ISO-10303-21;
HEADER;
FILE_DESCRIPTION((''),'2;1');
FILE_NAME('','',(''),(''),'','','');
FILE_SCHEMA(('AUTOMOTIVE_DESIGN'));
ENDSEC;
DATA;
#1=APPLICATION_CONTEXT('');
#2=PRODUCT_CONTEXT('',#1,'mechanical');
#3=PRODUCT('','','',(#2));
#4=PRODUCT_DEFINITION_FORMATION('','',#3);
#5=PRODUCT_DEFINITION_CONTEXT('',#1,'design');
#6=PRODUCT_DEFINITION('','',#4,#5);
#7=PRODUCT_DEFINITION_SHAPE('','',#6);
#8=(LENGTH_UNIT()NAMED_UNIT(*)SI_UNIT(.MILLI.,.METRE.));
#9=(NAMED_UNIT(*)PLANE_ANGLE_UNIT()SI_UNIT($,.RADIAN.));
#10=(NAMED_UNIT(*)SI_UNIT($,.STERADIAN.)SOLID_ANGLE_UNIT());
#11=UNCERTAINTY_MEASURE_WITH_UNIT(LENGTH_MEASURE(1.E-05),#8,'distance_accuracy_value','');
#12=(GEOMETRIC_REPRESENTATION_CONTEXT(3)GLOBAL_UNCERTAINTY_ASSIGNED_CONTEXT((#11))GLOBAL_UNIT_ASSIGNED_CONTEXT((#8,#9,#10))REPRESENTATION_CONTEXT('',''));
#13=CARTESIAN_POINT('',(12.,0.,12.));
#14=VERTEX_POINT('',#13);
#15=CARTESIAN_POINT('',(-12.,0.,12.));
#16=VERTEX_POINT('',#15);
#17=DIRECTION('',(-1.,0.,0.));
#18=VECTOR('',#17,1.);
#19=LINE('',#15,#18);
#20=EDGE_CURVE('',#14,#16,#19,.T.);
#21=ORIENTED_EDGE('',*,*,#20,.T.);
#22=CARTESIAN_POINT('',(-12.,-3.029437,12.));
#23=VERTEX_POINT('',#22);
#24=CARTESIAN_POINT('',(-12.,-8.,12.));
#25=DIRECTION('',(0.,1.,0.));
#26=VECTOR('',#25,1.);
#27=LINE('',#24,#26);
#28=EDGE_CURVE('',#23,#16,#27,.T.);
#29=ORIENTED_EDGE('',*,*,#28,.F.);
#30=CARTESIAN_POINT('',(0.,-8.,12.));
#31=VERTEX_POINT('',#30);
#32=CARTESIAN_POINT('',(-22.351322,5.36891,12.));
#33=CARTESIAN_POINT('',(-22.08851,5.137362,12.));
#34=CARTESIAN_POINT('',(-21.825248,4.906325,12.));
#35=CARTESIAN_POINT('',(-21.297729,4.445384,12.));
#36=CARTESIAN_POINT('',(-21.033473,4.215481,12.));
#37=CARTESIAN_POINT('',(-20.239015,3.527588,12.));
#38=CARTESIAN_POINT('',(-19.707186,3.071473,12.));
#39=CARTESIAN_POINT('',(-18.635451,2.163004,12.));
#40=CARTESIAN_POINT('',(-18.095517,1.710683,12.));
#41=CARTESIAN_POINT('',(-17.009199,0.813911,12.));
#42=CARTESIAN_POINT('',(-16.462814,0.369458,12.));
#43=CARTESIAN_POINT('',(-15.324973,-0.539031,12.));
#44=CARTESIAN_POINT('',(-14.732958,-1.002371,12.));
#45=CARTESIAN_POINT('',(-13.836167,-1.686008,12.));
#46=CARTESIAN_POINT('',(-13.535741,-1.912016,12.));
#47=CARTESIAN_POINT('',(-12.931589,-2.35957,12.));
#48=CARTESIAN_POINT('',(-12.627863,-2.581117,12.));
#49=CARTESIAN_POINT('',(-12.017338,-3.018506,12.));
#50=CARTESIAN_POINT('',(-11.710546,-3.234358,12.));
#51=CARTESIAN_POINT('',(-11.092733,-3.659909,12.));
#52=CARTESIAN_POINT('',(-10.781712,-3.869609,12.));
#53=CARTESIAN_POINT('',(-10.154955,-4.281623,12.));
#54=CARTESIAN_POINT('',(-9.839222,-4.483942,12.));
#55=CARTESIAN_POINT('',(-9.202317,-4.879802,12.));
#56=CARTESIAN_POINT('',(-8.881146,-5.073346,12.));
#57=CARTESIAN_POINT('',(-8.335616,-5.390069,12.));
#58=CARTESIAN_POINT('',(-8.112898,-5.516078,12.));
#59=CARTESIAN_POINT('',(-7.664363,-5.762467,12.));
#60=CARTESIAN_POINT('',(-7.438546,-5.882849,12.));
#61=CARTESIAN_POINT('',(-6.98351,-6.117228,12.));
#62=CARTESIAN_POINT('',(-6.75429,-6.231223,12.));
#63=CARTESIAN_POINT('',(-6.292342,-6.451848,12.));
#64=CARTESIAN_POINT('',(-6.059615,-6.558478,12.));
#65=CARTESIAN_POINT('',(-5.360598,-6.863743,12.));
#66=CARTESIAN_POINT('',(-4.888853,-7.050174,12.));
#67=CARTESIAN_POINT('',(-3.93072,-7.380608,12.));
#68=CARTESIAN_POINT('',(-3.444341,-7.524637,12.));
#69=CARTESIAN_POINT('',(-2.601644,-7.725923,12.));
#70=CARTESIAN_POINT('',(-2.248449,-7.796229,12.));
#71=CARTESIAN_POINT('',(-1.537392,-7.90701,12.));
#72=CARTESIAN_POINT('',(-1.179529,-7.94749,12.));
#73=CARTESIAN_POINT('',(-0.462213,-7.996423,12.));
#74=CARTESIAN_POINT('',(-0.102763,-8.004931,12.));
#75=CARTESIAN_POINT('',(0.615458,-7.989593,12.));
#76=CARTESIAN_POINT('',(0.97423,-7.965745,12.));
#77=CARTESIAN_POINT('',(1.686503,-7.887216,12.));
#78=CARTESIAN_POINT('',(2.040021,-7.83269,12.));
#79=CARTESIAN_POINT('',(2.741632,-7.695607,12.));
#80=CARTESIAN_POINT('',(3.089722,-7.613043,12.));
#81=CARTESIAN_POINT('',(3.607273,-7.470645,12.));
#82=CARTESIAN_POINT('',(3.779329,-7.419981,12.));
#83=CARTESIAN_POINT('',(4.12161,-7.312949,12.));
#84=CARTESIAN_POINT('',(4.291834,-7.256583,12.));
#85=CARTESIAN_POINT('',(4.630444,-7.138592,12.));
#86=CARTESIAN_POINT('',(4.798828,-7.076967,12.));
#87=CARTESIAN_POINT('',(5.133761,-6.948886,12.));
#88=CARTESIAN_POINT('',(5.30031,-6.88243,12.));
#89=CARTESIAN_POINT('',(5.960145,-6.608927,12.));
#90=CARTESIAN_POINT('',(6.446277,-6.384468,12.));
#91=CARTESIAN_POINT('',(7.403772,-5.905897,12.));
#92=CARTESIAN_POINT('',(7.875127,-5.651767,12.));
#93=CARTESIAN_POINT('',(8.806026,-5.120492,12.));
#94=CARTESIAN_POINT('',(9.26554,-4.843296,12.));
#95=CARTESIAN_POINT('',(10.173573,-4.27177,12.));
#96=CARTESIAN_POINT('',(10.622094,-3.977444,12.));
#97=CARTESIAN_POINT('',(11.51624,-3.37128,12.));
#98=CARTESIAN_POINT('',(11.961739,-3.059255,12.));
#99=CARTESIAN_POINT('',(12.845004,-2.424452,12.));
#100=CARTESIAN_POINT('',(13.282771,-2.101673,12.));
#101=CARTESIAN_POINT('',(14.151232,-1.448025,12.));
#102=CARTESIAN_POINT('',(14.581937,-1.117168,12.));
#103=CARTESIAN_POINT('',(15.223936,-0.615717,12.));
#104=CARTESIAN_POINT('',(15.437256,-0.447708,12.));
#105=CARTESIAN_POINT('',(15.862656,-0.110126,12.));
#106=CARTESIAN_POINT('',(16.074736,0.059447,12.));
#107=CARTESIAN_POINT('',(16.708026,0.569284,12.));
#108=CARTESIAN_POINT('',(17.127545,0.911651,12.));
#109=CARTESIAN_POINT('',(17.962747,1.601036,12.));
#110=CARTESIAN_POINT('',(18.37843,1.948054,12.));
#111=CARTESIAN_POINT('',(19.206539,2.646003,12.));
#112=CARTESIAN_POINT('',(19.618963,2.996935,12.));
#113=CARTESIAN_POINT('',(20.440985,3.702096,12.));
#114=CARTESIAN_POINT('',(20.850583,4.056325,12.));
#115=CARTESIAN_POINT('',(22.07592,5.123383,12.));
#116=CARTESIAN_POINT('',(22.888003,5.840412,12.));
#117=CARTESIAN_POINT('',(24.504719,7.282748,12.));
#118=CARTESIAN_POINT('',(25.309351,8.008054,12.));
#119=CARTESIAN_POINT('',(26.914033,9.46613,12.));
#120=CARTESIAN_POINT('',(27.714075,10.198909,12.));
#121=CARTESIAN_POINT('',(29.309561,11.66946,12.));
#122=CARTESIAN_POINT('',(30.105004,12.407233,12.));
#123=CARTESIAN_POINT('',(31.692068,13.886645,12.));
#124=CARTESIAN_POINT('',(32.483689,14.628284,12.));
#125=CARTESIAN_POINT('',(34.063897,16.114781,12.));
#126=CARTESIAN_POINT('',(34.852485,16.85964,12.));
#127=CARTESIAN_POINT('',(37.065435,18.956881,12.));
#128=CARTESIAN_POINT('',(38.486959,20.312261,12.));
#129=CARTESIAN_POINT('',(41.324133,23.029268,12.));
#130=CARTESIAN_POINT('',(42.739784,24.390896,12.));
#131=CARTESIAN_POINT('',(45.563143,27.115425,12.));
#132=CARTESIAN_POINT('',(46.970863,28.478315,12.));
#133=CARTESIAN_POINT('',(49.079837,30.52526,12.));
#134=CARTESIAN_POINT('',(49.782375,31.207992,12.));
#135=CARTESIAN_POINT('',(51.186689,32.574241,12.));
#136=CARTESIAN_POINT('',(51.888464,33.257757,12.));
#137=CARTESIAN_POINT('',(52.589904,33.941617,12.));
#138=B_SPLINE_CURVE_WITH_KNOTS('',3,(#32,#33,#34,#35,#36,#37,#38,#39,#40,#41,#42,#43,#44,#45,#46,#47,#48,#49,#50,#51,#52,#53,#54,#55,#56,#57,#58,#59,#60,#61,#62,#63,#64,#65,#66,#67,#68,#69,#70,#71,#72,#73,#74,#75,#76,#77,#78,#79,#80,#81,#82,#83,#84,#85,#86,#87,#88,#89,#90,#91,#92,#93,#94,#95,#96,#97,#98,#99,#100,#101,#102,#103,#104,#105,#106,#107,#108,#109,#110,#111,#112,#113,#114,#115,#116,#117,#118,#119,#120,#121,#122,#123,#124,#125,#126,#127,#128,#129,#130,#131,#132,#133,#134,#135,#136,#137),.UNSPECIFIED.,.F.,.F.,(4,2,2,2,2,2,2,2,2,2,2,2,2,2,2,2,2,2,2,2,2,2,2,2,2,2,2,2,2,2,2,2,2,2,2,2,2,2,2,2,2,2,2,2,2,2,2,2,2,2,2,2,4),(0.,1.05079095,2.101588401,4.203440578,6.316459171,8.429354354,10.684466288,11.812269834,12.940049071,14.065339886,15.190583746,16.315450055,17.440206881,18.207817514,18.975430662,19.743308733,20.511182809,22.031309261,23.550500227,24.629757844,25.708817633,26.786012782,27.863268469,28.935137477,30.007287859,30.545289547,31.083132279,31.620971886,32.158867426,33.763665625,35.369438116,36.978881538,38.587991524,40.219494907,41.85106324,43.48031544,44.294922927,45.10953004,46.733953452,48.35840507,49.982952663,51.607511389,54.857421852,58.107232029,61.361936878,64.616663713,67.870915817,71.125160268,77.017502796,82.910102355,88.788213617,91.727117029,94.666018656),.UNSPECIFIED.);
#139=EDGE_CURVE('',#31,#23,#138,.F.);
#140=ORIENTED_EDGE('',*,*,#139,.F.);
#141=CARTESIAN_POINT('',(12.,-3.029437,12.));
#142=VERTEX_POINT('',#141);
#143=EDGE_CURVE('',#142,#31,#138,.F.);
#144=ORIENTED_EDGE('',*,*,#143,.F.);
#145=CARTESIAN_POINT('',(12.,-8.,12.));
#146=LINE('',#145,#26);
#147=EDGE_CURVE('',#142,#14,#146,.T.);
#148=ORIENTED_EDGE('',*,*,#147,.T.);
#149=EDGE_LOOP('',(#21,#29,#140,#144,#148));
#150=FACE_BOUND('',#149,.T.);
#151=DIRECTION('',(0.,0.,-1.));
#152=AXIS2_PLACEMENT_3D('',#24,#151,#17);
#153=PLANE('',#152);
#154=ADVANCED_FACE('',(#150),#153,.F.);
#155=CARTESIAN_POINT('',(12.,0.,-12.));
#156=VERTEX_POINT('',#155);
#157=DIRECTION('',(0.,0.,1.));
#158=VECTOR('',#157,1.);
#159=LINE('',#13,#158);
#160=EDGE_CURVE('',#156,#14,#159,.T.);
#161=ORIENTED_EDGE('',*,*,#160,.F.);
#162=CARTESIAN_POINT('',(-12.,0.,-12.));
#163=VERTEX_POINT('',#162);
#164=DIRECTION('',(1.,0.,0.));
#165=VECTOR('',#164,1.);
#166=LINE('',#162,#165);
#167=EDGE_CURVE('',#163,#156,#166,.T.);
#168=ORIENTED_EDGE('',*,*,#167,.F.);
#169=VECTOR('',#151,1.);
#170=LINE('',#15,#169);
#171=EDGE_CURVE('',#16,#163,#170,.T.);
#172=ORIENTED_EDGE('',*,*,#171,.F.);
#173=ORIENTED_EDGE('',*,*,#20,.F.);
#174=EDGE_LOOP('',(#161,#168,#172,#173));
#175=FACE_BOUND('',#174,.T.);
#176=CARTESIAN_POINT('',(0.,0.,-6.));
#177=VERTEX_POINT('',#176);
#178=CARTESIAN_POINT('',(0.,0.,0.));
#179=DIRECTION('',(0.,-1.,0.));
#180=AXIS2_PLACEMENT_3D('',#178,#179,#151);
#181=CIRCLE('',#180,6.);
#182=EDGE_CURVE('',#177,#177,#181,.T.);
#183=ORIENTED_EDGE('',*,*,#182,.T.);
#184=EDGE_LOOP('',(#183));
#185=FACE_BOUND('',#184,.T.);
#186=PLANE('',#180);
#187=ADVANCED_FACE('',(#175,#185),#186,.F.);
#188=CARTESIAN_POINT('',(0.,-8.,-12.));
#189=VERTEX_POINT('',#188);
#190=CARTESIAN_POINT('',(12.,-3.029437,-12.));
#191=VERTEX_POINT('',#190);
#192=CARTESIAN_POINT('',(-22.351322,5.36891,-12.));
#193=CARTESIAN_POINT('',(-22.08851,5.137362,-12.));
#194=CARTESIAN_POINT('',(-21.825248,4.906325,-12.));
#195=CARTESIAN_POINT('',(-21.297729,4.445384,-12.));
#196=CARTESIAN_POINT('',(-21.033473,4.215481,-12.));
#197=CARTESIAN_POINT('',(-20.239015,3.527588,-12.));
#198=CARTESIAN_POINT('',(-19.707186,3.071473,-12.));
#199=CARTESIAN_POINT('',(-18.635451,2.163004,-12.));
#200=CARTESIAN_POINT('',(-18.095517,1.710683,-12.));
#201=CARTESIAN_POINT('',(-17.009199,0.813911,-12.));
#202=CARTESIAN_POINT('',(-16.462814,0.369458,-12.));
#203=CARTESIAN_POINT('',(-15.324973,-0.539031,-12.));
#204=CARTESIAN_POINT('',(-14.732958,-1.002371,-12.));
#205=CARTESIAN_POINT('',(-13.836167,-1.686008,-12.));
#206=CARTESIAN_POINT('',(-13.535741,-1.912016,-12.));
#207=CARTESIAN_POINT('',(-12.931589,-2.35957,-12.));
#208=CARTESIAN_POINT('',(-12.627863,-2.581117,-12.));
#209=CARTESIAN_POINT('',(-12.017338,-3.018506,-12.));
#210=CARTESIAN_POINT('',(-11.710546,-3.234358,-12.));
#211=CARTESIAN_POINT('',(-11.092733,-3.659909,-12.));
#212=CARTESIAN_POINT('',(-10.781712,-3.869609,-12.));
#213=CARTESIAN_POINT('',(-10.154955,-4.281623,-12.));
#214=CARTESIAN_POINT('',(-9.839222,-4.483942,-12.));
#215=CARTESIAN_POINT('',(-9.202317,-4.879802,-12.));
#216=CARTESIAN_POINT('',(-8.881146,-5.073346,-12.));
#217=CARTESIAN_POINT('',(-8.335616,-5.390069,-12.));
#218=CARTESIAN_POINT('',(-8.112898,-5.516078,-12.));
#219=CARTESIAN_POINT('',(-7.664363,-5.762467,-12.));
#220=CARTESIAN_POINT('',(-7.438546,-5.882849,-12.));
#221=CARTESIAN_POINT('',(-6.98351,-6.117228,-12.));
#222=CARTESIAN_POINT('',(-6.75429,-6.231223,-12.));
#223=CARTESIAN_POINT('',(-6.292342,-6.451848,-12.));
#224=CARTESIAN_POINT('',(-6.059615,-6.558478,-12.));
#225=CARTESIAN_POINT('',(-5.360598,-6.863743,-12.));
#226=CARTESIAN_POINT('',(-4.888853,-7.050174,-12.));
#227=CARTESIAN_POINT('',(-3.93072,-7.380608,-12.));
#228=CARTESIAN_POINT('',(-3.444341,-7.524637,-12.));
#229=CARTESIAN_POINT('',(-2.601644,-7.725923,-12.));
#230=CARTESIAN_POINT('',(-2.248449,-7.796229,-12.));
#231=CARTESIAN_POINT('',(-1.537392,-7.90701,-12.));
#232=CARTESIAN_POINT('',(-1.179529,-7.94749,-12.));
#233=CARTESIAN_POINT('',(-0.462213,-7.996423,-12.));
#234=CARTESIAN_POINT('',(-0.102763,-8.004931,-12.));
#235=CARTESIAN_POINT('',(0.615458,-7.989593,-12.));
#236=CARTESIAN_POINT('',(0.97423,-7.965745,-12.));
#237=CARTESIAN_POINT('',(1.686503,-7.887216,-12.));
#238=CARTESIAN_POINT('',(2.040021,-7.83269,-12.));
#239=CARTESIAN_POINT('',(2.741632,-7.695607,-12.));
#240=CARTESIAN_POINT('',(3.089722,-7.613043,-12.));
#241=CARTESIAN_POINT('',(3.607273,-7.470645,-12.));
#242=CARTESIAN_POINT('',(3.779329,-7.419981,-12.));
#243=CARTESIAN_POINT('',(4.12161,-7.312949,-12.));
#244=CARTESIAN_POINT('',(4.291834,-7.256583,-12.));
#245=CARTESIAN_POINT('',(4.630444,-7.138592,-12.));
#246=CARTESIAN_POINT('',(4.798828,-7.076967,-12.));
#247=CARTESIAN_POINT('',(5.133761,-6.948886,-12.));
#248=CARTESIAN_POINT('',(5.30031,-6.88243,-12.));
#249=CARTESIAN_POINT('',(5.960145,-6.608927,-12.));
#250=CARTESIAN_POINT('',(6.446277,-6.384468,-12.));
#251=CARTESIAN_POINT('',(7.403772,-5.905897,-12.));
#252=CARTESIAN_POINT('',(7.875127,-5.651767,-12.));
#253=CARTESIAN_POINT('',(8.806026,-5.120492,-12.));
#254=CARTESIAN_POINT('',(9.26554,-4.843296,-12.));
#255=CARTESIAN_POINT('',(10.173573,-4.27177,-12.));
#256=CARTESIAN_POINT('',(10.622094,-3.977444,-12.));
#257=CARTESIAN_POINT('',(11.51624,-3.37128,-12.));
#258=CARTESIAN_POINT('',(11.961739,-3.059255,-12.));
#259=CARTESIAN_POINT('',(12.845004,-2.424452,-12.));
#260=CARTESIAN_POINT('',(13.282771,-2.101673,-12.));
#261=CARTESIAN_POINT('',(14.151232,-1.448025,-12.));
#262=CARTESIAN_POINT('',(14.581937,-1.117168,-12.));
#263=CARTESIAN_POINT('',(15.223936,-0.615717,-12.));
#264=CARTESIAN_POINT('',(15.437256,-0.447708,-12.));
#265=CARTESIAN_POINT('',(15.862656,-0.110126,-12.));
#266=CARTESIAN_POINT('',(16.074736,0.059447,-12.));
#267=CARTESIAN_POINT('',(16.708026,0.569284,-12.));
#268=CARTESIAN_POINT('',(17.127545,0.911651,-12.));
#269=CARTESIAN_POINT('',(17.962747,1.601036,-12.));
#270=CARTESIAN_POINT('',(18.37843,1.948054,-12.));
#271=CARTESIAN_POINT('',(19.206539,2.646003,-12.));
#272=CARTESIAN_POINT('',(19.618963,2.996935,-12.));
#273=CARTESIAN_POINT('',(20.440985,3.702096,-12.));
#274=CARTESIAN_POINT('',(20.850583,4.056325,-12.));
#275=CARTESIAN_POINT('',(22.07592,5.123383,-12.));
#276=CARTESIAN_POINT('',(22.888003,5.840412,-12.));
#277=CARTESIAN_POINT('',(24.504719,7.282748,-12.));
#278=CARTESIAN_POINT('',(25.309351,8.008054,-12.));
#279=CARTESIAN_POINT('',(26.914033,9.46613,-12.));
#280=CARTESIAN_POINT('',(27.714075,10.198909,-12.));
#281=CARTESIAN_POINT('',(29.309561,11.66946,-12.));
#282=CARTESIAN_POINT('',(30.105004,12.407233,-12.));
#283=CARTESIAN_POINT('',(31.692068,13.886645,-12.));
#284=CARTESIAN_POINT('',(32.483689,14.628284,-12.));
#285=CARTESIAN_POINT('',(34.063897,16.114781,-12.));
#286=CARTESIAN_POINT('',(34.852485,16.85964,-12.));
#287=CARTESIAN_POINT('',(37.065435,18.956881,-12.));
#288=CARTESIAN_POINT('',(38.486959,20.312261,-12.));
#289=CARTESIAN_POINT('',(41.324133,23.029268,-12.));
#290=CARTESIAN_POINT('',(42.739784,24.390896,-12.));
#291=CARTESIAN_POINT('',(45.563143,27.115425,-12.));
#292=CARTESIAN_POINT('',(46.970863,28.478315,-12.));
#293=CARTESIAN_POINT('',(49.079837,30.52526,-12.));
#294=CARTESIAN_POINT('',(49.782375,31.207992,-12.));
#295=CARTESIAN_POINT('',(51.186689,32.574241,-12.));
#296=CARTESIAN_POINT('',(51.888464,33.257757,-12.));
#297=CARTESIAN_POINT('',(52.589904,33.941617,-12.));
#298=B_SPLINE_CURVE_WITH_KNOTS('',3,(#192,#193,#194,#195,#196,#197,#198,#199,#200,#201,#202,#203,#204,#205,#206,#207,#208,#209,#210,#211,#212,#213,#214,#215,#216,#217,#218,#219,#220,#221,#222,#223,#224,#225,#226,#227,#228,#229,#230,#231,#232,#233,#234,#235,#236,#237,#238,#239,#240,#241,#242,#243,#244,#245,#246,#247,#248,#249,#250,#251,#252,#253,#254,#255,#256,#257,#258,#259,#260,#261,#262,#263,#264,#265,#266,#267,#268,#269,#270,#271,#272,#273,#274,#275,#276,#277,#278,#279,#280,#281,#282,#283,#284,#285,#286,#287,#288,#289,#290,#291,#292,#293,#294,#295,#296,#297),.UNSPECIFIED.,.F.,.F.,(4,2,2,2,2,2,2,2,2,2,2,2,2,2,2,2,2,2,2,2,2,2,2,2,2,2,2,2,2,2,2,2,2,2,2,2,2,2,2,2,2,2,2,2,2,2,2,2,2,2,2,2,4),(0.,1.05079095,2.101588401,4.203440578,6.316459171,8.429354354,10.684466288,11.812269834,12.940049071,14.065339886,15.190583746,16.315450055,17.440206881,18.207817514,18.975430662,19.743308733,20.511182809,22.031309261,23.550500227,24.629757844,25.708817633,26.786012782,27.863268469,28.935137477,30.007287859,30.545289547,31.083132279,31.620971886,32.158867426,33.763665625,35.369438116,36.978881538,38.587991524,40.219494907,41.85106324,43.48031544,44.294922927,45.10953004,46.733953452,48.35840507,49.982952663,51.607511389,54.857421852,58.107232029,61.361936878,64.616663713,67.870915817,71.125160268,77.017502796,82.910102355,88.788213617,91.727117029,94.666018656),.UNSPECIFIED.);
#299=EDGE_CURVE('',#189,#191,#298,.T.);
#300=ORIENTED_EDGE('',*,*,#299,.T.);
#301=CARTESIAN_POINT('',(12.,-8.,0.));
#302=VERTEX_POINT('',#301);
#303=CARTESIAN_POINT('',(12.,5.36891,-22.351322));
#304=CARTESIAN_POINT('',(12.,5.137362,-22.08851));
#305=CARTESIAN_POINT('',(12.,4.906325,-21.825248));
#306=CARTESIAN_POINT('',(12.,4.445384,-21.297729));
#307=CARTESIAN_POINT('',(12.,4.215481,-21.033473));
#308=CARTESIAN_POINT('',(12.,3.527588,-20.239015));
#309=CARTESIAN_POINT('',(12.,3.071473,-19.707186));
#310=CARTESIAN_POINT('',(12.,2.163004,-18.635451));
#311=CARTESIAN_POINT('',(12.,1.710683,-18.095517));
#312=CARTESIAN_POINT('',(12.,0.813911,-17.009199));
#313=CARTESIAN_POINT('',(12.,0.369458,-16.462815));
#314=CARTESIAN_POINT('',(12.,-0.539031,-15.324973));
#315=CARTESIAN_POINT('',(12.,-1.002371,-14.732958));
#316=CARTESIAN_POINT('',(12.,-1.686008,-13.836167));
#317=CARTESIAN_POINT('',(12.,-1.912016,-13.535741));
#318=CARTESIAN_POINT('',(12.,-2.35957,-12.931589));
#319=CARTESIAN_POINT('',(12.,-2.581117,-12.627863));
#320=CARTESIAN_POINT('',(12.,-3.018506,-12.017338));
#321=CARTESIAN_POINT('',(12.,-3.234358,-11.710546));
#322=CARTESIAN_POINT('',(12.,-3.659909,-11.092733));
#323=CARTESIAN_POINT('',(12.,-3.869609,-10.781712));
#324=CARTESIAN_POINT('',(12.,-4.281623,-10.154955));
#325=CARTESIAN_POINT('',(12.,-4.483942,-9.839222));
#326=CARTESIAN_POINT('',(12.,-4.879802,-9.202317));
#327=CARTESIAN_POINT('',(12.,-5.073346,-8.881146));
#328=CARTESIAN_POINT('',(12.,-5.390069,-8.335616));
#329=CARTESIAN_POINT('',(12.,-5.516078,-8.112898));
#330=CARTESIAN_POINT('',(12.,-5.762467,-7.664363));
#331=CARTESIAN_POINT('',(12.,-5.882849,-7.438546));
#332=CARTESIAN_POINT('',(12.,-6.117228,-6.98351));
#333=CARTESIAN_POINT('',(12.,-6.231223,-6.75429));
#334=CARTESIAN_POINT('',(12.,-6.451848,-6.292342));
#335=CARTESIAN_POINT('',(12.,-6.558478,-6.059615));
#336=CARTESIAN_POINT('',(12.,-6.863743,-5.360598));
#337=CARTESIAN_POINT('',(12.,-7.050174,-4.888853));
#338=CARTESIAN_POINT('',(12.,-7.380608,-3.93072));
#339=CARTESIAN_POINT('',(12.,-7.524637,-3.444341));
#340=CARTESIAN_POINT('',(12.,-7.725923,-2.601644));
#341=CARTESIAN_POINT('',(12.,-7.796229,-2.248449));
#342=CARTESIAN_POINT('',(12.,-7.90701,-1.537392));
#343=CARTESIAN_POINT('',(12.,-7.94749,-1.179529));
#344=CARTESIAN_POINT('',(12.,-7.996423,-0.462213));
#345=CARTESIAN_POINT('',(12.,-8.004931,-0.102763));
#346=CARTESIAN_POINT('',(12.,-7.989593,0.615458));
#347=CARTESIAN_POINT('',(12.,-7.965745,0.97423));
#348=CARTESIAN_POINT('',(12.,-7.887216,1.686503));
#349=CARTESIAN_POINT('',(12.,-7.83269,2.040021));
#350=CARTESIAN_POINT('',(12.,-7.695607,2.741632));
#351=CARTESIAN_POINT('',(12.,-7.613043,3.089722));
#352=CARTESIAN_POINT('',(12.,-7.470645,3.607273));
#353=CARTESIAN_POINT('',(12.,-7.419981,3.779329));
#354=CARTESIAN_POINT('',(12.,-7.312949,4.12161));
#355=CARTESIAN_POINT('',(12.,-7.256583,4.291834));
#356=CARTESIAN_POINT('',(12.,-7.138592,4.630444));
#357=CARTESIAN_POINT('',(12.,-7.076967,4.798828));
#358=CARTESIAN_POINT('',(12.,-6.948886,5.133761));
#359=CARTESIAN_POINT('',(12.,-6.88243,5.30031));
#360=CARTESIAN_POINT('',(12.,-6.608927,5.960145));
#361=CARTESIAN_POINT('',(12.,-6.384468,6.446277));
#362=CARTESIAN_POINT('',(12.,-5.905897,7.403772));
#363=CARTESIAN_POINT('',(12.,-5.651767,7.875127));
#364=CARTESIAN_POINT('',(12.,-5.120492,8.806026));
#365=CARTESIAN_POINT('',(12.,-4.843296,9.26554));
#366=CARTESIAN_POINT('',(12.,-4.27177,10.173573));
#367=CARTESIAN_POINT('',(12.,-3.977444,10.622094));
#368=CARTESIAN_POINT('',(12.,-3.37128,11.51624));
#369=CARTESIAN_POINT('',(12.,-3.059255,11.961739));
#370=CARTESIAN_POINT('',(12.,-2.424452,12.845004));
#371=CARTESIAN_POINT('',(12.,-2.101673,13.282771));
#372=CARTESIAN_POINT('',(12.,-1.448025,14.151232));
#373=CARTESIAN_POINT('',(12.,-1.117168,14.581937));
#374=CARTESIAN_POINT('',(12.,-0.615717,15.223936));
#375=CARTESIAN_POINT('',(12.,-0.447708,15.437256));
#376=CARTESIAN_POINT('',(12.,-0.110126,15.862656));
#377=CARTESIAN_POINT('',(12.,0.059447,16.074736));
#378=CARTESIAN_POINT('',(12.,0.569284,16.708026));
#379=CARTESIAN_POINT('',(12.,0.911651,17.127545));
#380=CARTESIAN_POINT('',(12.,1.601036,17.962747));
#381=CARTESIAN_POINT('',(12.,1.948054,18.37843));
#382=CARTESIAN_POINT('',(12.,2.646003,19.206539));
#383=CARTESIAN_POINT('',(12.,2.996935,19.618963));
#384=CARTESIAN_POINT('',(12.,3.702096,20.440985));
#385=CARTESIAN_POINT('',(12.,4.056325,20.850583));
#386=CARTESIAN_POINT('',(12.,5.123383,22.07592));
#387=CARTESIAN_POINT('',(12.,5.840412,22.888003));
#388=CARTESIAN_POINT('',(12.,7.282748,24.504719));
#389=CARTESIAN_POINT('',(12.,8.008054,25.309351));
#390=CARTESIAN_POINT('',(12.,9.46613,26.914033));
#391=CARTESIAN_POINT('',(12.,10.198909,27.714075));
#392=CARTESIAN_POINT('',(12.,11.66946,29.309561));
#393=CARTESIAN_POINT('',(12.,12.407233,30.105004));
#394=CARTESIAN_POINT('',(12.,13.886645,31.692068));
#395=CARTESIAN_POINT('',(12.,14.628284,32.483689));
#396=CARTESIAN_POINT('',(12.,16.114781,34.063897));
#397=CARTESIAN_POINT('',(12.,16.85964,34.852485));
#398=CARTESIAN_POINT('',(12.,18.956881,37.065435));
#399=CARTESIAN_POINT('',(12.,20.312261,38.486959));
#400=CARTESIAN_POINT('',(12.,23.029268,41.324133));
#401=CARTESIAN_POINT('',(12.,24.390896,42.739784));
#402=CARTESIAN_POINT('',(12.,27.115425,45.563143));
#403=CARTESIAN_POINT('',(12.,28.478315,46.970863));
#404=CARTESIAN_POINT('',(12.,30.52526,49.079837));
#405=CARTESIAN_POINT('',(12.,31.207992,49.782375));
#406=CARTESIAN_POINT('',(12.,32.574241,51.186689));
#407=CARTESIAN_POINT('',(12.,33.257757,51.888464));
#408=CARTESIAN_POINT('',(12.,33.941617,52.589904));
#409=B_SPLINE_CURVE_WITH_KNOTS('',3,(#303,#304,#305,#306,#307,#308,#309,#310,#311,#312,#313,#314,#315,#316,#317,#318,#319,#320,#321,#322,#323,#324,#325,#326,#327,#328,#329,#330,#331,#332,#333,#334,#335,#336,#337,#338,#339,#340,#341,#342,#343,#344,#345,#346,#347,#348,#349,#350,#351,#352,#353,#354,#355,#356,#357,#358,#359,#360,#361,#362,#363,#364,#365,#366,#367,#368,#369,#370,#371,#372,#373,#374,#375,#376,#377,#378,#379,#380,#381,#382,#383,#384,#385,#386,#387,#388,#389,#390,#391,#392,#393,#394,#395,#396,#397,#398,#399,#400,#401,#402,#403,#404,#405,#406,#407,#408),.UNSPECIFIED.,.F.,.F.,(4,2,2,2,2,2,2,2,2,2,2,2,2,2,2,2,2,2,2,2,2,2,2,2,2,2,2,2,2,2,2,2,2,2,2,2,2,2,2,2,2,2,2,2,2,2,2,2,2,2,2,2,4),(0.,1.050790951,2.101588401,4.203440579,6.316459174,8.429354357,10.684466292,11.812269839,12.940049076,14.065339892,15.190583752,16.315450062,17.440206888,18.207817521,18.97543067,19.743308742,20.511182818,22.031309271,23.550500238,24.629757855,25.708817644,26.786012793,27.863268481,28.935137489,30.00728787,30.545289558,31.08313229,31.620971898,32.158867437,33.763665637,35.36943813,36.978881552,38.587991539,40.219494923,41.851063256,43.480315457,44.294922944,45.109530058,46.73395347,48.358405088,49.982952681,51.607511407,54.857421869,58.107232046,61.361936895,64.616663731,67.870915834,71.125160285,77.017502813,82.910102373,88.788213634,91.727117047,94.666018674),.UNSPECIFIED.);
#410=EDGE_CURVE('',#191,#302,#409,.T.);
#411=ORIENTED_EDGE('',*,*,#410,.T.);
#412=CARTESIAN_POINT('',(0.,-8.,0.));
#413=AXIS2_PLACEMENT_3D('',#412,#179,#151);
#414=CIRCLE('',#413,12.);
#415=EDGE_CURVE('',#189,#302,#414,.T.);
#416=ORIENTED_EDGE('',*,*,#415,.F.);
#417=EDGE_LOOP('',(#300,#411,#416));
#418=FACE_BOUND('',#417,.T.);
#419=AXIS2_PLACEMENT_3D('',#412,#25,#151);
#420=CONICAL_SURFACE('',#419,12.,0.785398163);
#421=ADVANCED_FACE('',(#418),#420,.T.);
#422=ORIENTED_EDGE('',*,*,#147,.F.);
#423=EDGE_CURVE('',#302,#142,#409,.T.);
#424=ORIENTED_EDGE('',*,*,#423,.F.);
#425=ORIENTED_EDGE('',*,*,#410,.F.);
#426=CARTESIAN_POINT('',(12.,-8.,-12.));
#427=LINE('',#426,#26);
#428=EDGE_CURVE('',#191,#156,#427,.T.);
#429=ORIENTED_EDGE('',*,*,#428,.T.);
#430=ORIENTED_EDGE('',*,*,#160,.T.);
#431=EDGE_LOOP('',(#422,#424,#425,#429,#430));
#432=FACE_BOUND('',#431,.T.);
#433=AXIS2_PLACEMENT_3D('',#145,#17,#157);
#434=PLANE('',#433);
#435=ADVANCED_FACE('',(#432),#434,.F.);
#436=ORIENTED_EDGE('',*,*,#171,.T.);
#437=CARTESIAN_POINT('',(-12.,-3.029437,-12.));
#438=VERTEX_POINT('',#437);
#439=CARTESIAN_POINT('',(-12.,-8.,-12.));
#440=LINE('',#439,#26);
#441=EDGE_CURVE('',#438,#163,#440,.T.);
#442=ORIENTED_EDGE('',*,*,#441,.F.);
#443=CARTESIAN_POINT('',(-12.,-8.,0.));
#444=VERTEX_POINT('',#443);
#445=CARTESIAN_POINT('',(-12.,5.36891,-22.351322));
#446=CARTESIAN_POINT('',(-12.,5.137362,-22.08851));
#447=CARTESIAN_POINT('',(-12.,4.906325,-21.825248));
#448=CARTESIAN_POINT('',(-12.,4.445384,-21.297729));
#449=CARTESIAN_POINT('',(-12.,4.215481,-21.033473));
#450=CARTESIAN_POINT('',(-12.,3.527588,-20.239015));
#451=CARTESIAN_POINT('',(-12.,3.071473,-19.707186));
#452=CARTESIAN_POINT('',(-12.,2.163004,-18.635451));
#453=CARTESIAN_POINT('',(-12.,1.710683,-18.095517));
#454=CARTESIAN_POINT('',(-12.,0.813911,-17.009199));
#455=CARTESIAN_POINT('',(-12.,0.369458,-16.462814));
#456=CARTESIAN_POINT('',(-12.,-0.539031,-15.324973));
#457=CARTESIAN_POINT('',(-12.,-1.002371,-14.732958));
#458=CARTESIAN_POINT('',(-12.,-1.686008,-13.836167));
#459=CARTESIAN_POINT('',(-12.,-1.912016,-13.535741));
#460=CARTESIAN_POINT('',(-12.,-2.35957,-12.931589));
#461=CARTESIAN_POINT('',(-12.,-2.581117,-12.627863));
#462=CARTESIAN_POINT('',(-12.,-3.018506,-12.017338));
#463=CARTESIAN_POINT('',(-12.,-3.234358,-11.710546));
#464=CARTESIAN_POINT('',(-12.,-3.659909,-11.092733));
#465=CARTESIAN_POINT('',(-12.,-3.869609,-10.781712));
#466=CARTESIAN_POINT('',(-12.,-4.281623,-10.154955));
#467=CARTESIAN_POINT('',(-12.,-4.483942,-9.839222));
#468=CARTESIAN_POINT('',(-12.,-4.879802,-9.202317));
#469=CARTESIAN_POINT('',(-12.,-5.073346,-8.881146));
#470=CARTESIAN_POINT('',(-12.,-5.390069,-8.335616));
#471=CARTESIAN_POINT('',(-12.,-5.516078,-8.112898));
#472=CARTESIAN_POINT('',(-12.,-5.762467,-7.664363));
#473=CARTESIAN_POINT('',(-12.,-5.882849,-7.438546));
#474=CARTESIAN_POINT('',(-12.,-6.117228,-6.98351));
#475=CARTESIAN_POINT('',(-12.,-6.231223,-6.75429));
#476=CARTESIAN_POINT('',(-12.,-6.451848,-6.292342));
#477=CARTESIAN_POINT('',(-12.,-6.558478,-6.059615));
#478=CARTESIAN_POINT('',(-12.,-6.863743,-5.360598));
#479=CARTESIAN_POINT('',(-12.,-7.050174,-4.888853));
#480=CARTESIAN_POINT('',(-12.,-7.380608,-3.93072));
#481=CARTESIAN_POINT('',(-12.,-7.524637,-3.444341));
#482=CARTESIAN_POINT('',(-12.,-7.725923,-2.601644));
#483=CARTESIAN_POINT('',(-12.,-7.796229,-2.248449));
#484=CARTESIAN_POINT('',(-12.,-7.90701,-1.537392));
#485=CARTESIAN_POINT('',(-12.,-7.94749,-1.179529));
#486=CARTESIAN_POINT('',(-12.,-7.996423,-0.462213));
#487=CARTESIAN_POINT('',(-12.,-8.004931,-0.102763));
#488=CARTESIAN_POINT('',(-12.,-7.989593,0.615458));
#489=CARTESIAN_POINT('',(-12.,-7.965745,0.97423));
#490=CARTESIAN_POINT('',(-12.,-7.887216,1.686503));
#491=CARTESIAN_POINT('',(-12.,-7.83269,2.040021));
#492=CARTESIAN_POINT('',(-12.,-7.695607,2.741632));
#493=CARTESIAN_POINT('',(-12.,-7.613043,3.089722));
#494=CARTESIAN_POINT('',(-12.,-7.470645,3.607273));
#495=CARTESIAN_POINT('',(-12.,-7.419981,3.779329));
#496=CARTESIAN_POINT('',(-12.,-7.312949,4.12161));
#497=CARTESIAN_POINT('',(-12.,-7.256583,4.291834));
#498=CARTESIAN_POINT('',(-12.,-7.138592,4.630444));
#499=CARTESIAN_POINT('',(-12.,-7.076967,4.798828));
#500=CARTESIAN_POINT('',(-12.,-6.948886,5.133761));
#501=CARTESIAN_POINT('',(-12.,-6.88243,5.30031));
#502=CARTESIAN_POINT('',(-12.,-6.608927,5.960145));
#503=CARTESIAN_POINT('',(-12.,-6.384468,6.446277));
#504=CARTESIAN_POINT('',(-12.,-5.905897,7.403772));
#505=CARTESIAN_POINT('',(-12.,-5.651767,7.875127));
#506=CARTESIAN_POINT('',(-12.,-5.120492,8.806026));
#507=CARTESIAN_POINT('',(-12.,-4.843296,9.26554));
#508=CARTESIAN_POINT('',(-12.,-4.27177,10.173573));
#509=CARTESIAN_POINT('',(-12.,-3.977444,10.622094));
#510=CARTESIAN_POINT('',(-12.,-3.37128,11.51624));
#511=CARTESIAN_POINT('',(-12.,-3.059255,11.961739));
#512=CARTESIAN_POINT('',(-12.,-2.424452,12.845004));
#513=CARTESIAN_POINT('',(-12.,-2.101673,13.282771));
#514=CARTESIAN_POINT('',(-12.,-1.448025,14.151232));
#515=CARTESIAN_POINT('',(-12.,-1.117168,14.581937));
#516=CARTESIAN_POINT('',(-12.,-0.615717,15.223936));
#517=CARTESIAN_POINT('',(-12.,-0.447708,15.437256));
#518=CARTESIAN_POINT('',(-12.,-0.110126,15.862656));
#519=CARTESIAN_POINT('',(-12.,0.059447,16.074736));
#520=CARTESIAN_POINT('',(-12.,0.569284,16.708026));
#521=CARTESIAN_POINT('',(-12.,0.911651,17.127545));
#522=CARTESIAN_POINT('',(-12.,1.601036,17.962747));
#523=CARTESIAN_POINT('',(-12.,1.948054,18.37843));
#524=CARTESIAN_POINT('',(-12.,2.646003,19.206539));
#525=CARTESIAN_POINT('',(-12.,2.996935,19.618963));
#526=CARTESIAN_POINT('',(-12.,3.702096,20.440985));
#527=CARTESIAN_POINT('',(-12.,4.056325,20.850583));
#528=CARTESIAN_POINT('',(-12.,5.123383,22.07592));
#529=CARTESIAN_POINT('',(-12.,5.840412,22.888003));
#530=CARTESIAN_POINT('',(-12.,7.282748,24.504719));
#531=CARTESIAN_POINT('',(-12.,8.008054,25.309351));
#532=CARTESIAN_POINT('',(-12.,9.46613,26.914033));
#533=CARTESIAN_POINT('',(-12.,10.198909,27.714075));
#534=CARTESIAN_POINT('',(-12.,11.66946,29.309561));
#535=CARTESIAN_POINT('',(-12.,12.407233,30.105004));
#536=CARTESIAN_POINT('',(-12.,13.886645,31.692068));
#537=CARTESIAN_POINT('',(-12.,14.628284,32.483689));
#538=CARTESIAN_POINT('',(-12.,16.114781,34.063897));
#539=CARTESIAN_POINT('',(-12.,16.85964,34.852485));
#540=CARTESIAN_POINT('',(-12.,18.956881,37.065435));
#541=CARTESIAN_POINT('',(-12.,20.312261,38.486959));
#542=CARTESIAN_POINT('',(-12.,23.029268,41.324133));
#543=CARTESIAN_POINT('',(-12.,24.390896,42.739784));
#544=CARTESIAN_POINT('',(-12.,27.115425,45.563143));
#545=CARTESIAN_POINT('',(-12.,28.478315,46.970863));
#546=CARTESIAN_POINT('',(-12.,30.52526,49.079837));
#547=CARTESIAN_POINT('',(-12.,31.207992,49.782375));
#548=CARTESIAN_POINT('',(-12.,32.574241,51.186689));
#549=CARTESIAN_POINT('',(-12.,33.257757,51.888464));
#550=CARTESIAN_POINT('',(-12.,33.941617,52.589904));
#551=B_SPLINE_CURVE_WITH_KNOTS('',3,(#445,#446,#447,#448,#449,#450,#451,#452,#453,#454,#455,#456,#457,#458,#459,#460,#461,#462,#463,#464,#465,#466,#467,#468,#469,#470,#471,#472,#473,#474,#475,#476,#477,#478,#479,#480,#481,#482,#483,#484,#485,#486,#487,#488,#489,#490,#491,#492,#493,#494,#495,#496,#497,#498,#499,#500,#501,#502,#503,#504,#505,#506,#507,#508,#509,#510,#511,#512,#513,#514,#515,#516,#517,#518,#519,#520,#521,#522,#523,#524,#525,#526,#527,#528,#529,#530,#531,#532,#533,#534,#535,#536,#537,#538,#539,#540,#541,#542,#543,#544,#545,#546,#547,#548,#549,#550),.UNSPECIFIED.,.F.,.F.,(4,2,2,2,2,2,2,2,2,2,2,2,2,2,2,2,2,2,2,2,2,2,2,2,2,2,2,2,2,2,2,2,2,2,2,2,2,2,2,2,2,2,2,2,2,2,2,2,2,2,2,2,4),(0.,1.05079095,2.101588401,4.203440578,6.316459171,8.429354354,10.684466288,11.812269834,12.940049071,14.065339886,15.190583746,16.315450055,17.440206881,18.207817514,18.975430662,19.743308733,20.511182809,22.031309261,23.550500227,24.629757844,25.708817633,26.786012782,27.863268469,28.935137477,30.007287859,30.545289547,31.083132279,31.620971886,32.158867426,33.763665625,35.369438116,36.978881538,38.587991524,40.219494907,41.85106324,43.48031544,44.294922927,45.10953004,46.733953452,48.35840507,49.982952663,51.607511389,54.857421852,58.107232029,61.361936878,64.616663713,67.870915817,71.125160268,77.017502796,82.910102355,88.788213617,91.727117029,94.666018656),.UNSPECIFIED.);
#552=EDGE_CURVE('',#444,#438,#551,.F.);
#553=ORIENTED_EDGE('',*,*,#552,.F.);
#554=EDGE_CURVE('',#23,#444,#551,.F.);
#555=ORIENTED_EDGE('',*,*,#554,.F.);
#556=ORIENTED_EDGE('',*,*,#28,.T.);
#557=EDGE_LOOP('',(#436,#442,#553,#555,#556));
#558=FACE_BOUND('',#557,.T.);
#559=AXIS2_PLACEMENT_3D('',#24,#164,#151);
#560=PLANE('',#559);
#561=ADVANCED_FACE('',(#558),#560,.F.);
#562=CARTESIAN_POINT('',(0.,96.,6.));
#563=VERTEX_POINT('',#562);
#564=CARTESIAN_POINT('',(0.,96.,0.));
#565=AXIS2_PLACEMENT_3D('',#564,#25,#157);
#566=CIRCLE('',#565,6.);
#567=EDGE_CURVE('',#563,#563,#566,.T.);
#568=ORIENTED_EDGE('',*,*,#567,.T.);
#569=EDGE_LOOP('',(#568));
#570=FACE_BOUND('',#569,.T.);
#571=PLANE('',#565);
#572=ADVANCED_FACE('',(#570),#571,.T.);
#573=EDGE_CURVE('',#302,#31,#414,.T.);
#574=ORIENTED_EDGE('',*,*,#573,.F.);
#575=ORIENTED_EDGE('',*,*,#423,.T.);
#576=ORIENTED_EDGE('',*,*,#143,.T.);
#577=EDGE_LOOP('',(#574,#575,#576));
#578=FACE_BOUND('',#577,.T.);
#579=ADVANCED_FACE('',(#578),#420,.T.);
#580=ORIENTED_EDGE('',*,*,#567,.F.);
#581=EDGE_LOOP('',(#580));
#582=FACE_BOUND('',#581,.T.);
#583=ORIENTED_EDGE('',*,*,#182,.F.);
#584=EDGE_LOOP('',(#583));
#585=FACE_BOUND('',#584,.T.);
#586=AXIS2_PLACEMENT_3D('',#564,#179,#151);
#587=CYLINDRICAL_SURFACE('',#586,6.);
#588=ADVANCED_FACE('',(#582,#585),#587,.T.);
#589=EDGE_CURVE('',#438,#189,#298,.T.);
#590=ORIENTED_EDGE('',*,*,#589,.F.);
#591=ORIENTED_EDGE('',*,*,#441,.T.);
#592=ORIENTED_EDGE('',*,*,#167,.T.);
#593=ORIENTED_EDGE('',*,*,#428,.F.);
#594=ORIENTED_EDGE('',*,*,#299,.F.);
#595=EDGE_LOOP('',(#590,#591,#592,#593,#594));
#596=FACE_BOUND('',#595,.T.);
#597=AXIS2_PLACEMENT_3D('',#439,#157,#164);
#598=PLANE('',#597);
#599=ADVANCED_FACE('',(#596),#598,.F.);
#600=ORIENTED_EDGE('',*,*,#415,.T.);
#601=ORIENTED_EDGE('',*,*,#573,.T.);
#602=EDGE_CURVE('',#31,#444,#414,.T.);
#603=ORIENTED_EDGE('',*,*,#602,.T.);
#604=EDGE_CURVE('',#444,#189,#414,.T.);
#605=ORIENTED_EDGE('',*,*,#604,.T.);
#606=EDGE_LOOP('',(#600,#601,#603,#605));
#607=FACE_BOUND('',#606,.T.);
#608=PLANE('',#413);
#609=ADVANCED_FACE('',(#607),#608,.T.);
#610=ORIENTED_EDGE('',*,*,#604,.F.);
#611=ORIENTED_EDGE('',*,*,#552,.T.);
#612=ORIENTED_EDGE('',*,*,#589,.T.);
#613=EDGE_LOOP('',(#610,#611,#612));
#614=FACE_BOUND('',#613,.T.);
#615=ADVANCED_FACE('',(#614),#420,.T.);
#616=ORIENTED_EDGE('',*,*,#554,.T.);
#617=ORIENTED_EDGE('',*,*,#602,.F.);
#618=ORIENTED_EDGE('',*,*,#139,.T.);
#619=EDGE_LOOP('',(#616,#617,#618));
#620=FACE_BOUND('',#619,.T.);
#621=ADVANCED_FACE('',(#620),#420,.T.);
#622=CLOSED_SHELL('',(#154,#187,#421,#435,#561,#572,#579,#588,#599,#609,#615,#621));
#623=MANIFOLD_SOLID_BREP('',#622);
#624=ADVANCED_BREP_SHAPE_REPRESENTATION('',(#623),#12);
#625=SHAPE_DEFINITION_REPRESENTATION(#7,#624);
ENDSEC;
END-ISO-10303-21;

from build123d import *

# Parameters (mm, degrees)
SKETCH1_R           = 6
BOSS_EXTRUDE1_DEPTH = 96
SKETCH11_W          = 24
SKETCH11_H          = 24
BOSS_EXTRUDE5_DEPTH = 8
SKETCH12_OUTSIDE_W  = 63.88
SKETCH12_OUTSIDE_H  = 63.88
SKETCH12_OUTSIDE_R  = 12
CUT_EXTRUDE3_DEPTH  = 8
CUT_EXTRUDE3_TAPER  = 45


with BuildPart() as part:
    # Sketch1 → Boss-Extrude1 (new body)
    with BuildSketch(Plane(origin=(0, 0, 0), x_dir=(1, 0, 0), z_dir=(0, 1, 0))):
        Circle(SKETCH1_R)
    extrude(amount=BOSS_EXTRUDE1_DEPTH)

    # Sketch11 → Boss-Extrude5 (add)
    with BuildSketch(Plane.XZ):
        Rectangle(SKETCH11_W, SKETCH11_H)
    extrude(amount=BOSS_EXTRUDE5_DEPTH)

    # Sketch12 outside → Cut-Extrude3 (cut)
    with BuildSketch(Plane(origin=(0, -8, 0), x_dir=(-1, 0, 0), z_dir=(0, -1, 0))):
        Rectangle(SKETCH12_OUTSIDE_W, SKETCH12_OUTSIDE_H)
        Circle(SKETCH12_OUTSIDE_R, mode=Mode.SUBTRACT)
    extrude(amount=-CUT_EXTRUDE3_DEPTH, taper=CUT_EXTRUDE3_TAPER, mode=Mode.SUBTRACT)


solid = part.part
